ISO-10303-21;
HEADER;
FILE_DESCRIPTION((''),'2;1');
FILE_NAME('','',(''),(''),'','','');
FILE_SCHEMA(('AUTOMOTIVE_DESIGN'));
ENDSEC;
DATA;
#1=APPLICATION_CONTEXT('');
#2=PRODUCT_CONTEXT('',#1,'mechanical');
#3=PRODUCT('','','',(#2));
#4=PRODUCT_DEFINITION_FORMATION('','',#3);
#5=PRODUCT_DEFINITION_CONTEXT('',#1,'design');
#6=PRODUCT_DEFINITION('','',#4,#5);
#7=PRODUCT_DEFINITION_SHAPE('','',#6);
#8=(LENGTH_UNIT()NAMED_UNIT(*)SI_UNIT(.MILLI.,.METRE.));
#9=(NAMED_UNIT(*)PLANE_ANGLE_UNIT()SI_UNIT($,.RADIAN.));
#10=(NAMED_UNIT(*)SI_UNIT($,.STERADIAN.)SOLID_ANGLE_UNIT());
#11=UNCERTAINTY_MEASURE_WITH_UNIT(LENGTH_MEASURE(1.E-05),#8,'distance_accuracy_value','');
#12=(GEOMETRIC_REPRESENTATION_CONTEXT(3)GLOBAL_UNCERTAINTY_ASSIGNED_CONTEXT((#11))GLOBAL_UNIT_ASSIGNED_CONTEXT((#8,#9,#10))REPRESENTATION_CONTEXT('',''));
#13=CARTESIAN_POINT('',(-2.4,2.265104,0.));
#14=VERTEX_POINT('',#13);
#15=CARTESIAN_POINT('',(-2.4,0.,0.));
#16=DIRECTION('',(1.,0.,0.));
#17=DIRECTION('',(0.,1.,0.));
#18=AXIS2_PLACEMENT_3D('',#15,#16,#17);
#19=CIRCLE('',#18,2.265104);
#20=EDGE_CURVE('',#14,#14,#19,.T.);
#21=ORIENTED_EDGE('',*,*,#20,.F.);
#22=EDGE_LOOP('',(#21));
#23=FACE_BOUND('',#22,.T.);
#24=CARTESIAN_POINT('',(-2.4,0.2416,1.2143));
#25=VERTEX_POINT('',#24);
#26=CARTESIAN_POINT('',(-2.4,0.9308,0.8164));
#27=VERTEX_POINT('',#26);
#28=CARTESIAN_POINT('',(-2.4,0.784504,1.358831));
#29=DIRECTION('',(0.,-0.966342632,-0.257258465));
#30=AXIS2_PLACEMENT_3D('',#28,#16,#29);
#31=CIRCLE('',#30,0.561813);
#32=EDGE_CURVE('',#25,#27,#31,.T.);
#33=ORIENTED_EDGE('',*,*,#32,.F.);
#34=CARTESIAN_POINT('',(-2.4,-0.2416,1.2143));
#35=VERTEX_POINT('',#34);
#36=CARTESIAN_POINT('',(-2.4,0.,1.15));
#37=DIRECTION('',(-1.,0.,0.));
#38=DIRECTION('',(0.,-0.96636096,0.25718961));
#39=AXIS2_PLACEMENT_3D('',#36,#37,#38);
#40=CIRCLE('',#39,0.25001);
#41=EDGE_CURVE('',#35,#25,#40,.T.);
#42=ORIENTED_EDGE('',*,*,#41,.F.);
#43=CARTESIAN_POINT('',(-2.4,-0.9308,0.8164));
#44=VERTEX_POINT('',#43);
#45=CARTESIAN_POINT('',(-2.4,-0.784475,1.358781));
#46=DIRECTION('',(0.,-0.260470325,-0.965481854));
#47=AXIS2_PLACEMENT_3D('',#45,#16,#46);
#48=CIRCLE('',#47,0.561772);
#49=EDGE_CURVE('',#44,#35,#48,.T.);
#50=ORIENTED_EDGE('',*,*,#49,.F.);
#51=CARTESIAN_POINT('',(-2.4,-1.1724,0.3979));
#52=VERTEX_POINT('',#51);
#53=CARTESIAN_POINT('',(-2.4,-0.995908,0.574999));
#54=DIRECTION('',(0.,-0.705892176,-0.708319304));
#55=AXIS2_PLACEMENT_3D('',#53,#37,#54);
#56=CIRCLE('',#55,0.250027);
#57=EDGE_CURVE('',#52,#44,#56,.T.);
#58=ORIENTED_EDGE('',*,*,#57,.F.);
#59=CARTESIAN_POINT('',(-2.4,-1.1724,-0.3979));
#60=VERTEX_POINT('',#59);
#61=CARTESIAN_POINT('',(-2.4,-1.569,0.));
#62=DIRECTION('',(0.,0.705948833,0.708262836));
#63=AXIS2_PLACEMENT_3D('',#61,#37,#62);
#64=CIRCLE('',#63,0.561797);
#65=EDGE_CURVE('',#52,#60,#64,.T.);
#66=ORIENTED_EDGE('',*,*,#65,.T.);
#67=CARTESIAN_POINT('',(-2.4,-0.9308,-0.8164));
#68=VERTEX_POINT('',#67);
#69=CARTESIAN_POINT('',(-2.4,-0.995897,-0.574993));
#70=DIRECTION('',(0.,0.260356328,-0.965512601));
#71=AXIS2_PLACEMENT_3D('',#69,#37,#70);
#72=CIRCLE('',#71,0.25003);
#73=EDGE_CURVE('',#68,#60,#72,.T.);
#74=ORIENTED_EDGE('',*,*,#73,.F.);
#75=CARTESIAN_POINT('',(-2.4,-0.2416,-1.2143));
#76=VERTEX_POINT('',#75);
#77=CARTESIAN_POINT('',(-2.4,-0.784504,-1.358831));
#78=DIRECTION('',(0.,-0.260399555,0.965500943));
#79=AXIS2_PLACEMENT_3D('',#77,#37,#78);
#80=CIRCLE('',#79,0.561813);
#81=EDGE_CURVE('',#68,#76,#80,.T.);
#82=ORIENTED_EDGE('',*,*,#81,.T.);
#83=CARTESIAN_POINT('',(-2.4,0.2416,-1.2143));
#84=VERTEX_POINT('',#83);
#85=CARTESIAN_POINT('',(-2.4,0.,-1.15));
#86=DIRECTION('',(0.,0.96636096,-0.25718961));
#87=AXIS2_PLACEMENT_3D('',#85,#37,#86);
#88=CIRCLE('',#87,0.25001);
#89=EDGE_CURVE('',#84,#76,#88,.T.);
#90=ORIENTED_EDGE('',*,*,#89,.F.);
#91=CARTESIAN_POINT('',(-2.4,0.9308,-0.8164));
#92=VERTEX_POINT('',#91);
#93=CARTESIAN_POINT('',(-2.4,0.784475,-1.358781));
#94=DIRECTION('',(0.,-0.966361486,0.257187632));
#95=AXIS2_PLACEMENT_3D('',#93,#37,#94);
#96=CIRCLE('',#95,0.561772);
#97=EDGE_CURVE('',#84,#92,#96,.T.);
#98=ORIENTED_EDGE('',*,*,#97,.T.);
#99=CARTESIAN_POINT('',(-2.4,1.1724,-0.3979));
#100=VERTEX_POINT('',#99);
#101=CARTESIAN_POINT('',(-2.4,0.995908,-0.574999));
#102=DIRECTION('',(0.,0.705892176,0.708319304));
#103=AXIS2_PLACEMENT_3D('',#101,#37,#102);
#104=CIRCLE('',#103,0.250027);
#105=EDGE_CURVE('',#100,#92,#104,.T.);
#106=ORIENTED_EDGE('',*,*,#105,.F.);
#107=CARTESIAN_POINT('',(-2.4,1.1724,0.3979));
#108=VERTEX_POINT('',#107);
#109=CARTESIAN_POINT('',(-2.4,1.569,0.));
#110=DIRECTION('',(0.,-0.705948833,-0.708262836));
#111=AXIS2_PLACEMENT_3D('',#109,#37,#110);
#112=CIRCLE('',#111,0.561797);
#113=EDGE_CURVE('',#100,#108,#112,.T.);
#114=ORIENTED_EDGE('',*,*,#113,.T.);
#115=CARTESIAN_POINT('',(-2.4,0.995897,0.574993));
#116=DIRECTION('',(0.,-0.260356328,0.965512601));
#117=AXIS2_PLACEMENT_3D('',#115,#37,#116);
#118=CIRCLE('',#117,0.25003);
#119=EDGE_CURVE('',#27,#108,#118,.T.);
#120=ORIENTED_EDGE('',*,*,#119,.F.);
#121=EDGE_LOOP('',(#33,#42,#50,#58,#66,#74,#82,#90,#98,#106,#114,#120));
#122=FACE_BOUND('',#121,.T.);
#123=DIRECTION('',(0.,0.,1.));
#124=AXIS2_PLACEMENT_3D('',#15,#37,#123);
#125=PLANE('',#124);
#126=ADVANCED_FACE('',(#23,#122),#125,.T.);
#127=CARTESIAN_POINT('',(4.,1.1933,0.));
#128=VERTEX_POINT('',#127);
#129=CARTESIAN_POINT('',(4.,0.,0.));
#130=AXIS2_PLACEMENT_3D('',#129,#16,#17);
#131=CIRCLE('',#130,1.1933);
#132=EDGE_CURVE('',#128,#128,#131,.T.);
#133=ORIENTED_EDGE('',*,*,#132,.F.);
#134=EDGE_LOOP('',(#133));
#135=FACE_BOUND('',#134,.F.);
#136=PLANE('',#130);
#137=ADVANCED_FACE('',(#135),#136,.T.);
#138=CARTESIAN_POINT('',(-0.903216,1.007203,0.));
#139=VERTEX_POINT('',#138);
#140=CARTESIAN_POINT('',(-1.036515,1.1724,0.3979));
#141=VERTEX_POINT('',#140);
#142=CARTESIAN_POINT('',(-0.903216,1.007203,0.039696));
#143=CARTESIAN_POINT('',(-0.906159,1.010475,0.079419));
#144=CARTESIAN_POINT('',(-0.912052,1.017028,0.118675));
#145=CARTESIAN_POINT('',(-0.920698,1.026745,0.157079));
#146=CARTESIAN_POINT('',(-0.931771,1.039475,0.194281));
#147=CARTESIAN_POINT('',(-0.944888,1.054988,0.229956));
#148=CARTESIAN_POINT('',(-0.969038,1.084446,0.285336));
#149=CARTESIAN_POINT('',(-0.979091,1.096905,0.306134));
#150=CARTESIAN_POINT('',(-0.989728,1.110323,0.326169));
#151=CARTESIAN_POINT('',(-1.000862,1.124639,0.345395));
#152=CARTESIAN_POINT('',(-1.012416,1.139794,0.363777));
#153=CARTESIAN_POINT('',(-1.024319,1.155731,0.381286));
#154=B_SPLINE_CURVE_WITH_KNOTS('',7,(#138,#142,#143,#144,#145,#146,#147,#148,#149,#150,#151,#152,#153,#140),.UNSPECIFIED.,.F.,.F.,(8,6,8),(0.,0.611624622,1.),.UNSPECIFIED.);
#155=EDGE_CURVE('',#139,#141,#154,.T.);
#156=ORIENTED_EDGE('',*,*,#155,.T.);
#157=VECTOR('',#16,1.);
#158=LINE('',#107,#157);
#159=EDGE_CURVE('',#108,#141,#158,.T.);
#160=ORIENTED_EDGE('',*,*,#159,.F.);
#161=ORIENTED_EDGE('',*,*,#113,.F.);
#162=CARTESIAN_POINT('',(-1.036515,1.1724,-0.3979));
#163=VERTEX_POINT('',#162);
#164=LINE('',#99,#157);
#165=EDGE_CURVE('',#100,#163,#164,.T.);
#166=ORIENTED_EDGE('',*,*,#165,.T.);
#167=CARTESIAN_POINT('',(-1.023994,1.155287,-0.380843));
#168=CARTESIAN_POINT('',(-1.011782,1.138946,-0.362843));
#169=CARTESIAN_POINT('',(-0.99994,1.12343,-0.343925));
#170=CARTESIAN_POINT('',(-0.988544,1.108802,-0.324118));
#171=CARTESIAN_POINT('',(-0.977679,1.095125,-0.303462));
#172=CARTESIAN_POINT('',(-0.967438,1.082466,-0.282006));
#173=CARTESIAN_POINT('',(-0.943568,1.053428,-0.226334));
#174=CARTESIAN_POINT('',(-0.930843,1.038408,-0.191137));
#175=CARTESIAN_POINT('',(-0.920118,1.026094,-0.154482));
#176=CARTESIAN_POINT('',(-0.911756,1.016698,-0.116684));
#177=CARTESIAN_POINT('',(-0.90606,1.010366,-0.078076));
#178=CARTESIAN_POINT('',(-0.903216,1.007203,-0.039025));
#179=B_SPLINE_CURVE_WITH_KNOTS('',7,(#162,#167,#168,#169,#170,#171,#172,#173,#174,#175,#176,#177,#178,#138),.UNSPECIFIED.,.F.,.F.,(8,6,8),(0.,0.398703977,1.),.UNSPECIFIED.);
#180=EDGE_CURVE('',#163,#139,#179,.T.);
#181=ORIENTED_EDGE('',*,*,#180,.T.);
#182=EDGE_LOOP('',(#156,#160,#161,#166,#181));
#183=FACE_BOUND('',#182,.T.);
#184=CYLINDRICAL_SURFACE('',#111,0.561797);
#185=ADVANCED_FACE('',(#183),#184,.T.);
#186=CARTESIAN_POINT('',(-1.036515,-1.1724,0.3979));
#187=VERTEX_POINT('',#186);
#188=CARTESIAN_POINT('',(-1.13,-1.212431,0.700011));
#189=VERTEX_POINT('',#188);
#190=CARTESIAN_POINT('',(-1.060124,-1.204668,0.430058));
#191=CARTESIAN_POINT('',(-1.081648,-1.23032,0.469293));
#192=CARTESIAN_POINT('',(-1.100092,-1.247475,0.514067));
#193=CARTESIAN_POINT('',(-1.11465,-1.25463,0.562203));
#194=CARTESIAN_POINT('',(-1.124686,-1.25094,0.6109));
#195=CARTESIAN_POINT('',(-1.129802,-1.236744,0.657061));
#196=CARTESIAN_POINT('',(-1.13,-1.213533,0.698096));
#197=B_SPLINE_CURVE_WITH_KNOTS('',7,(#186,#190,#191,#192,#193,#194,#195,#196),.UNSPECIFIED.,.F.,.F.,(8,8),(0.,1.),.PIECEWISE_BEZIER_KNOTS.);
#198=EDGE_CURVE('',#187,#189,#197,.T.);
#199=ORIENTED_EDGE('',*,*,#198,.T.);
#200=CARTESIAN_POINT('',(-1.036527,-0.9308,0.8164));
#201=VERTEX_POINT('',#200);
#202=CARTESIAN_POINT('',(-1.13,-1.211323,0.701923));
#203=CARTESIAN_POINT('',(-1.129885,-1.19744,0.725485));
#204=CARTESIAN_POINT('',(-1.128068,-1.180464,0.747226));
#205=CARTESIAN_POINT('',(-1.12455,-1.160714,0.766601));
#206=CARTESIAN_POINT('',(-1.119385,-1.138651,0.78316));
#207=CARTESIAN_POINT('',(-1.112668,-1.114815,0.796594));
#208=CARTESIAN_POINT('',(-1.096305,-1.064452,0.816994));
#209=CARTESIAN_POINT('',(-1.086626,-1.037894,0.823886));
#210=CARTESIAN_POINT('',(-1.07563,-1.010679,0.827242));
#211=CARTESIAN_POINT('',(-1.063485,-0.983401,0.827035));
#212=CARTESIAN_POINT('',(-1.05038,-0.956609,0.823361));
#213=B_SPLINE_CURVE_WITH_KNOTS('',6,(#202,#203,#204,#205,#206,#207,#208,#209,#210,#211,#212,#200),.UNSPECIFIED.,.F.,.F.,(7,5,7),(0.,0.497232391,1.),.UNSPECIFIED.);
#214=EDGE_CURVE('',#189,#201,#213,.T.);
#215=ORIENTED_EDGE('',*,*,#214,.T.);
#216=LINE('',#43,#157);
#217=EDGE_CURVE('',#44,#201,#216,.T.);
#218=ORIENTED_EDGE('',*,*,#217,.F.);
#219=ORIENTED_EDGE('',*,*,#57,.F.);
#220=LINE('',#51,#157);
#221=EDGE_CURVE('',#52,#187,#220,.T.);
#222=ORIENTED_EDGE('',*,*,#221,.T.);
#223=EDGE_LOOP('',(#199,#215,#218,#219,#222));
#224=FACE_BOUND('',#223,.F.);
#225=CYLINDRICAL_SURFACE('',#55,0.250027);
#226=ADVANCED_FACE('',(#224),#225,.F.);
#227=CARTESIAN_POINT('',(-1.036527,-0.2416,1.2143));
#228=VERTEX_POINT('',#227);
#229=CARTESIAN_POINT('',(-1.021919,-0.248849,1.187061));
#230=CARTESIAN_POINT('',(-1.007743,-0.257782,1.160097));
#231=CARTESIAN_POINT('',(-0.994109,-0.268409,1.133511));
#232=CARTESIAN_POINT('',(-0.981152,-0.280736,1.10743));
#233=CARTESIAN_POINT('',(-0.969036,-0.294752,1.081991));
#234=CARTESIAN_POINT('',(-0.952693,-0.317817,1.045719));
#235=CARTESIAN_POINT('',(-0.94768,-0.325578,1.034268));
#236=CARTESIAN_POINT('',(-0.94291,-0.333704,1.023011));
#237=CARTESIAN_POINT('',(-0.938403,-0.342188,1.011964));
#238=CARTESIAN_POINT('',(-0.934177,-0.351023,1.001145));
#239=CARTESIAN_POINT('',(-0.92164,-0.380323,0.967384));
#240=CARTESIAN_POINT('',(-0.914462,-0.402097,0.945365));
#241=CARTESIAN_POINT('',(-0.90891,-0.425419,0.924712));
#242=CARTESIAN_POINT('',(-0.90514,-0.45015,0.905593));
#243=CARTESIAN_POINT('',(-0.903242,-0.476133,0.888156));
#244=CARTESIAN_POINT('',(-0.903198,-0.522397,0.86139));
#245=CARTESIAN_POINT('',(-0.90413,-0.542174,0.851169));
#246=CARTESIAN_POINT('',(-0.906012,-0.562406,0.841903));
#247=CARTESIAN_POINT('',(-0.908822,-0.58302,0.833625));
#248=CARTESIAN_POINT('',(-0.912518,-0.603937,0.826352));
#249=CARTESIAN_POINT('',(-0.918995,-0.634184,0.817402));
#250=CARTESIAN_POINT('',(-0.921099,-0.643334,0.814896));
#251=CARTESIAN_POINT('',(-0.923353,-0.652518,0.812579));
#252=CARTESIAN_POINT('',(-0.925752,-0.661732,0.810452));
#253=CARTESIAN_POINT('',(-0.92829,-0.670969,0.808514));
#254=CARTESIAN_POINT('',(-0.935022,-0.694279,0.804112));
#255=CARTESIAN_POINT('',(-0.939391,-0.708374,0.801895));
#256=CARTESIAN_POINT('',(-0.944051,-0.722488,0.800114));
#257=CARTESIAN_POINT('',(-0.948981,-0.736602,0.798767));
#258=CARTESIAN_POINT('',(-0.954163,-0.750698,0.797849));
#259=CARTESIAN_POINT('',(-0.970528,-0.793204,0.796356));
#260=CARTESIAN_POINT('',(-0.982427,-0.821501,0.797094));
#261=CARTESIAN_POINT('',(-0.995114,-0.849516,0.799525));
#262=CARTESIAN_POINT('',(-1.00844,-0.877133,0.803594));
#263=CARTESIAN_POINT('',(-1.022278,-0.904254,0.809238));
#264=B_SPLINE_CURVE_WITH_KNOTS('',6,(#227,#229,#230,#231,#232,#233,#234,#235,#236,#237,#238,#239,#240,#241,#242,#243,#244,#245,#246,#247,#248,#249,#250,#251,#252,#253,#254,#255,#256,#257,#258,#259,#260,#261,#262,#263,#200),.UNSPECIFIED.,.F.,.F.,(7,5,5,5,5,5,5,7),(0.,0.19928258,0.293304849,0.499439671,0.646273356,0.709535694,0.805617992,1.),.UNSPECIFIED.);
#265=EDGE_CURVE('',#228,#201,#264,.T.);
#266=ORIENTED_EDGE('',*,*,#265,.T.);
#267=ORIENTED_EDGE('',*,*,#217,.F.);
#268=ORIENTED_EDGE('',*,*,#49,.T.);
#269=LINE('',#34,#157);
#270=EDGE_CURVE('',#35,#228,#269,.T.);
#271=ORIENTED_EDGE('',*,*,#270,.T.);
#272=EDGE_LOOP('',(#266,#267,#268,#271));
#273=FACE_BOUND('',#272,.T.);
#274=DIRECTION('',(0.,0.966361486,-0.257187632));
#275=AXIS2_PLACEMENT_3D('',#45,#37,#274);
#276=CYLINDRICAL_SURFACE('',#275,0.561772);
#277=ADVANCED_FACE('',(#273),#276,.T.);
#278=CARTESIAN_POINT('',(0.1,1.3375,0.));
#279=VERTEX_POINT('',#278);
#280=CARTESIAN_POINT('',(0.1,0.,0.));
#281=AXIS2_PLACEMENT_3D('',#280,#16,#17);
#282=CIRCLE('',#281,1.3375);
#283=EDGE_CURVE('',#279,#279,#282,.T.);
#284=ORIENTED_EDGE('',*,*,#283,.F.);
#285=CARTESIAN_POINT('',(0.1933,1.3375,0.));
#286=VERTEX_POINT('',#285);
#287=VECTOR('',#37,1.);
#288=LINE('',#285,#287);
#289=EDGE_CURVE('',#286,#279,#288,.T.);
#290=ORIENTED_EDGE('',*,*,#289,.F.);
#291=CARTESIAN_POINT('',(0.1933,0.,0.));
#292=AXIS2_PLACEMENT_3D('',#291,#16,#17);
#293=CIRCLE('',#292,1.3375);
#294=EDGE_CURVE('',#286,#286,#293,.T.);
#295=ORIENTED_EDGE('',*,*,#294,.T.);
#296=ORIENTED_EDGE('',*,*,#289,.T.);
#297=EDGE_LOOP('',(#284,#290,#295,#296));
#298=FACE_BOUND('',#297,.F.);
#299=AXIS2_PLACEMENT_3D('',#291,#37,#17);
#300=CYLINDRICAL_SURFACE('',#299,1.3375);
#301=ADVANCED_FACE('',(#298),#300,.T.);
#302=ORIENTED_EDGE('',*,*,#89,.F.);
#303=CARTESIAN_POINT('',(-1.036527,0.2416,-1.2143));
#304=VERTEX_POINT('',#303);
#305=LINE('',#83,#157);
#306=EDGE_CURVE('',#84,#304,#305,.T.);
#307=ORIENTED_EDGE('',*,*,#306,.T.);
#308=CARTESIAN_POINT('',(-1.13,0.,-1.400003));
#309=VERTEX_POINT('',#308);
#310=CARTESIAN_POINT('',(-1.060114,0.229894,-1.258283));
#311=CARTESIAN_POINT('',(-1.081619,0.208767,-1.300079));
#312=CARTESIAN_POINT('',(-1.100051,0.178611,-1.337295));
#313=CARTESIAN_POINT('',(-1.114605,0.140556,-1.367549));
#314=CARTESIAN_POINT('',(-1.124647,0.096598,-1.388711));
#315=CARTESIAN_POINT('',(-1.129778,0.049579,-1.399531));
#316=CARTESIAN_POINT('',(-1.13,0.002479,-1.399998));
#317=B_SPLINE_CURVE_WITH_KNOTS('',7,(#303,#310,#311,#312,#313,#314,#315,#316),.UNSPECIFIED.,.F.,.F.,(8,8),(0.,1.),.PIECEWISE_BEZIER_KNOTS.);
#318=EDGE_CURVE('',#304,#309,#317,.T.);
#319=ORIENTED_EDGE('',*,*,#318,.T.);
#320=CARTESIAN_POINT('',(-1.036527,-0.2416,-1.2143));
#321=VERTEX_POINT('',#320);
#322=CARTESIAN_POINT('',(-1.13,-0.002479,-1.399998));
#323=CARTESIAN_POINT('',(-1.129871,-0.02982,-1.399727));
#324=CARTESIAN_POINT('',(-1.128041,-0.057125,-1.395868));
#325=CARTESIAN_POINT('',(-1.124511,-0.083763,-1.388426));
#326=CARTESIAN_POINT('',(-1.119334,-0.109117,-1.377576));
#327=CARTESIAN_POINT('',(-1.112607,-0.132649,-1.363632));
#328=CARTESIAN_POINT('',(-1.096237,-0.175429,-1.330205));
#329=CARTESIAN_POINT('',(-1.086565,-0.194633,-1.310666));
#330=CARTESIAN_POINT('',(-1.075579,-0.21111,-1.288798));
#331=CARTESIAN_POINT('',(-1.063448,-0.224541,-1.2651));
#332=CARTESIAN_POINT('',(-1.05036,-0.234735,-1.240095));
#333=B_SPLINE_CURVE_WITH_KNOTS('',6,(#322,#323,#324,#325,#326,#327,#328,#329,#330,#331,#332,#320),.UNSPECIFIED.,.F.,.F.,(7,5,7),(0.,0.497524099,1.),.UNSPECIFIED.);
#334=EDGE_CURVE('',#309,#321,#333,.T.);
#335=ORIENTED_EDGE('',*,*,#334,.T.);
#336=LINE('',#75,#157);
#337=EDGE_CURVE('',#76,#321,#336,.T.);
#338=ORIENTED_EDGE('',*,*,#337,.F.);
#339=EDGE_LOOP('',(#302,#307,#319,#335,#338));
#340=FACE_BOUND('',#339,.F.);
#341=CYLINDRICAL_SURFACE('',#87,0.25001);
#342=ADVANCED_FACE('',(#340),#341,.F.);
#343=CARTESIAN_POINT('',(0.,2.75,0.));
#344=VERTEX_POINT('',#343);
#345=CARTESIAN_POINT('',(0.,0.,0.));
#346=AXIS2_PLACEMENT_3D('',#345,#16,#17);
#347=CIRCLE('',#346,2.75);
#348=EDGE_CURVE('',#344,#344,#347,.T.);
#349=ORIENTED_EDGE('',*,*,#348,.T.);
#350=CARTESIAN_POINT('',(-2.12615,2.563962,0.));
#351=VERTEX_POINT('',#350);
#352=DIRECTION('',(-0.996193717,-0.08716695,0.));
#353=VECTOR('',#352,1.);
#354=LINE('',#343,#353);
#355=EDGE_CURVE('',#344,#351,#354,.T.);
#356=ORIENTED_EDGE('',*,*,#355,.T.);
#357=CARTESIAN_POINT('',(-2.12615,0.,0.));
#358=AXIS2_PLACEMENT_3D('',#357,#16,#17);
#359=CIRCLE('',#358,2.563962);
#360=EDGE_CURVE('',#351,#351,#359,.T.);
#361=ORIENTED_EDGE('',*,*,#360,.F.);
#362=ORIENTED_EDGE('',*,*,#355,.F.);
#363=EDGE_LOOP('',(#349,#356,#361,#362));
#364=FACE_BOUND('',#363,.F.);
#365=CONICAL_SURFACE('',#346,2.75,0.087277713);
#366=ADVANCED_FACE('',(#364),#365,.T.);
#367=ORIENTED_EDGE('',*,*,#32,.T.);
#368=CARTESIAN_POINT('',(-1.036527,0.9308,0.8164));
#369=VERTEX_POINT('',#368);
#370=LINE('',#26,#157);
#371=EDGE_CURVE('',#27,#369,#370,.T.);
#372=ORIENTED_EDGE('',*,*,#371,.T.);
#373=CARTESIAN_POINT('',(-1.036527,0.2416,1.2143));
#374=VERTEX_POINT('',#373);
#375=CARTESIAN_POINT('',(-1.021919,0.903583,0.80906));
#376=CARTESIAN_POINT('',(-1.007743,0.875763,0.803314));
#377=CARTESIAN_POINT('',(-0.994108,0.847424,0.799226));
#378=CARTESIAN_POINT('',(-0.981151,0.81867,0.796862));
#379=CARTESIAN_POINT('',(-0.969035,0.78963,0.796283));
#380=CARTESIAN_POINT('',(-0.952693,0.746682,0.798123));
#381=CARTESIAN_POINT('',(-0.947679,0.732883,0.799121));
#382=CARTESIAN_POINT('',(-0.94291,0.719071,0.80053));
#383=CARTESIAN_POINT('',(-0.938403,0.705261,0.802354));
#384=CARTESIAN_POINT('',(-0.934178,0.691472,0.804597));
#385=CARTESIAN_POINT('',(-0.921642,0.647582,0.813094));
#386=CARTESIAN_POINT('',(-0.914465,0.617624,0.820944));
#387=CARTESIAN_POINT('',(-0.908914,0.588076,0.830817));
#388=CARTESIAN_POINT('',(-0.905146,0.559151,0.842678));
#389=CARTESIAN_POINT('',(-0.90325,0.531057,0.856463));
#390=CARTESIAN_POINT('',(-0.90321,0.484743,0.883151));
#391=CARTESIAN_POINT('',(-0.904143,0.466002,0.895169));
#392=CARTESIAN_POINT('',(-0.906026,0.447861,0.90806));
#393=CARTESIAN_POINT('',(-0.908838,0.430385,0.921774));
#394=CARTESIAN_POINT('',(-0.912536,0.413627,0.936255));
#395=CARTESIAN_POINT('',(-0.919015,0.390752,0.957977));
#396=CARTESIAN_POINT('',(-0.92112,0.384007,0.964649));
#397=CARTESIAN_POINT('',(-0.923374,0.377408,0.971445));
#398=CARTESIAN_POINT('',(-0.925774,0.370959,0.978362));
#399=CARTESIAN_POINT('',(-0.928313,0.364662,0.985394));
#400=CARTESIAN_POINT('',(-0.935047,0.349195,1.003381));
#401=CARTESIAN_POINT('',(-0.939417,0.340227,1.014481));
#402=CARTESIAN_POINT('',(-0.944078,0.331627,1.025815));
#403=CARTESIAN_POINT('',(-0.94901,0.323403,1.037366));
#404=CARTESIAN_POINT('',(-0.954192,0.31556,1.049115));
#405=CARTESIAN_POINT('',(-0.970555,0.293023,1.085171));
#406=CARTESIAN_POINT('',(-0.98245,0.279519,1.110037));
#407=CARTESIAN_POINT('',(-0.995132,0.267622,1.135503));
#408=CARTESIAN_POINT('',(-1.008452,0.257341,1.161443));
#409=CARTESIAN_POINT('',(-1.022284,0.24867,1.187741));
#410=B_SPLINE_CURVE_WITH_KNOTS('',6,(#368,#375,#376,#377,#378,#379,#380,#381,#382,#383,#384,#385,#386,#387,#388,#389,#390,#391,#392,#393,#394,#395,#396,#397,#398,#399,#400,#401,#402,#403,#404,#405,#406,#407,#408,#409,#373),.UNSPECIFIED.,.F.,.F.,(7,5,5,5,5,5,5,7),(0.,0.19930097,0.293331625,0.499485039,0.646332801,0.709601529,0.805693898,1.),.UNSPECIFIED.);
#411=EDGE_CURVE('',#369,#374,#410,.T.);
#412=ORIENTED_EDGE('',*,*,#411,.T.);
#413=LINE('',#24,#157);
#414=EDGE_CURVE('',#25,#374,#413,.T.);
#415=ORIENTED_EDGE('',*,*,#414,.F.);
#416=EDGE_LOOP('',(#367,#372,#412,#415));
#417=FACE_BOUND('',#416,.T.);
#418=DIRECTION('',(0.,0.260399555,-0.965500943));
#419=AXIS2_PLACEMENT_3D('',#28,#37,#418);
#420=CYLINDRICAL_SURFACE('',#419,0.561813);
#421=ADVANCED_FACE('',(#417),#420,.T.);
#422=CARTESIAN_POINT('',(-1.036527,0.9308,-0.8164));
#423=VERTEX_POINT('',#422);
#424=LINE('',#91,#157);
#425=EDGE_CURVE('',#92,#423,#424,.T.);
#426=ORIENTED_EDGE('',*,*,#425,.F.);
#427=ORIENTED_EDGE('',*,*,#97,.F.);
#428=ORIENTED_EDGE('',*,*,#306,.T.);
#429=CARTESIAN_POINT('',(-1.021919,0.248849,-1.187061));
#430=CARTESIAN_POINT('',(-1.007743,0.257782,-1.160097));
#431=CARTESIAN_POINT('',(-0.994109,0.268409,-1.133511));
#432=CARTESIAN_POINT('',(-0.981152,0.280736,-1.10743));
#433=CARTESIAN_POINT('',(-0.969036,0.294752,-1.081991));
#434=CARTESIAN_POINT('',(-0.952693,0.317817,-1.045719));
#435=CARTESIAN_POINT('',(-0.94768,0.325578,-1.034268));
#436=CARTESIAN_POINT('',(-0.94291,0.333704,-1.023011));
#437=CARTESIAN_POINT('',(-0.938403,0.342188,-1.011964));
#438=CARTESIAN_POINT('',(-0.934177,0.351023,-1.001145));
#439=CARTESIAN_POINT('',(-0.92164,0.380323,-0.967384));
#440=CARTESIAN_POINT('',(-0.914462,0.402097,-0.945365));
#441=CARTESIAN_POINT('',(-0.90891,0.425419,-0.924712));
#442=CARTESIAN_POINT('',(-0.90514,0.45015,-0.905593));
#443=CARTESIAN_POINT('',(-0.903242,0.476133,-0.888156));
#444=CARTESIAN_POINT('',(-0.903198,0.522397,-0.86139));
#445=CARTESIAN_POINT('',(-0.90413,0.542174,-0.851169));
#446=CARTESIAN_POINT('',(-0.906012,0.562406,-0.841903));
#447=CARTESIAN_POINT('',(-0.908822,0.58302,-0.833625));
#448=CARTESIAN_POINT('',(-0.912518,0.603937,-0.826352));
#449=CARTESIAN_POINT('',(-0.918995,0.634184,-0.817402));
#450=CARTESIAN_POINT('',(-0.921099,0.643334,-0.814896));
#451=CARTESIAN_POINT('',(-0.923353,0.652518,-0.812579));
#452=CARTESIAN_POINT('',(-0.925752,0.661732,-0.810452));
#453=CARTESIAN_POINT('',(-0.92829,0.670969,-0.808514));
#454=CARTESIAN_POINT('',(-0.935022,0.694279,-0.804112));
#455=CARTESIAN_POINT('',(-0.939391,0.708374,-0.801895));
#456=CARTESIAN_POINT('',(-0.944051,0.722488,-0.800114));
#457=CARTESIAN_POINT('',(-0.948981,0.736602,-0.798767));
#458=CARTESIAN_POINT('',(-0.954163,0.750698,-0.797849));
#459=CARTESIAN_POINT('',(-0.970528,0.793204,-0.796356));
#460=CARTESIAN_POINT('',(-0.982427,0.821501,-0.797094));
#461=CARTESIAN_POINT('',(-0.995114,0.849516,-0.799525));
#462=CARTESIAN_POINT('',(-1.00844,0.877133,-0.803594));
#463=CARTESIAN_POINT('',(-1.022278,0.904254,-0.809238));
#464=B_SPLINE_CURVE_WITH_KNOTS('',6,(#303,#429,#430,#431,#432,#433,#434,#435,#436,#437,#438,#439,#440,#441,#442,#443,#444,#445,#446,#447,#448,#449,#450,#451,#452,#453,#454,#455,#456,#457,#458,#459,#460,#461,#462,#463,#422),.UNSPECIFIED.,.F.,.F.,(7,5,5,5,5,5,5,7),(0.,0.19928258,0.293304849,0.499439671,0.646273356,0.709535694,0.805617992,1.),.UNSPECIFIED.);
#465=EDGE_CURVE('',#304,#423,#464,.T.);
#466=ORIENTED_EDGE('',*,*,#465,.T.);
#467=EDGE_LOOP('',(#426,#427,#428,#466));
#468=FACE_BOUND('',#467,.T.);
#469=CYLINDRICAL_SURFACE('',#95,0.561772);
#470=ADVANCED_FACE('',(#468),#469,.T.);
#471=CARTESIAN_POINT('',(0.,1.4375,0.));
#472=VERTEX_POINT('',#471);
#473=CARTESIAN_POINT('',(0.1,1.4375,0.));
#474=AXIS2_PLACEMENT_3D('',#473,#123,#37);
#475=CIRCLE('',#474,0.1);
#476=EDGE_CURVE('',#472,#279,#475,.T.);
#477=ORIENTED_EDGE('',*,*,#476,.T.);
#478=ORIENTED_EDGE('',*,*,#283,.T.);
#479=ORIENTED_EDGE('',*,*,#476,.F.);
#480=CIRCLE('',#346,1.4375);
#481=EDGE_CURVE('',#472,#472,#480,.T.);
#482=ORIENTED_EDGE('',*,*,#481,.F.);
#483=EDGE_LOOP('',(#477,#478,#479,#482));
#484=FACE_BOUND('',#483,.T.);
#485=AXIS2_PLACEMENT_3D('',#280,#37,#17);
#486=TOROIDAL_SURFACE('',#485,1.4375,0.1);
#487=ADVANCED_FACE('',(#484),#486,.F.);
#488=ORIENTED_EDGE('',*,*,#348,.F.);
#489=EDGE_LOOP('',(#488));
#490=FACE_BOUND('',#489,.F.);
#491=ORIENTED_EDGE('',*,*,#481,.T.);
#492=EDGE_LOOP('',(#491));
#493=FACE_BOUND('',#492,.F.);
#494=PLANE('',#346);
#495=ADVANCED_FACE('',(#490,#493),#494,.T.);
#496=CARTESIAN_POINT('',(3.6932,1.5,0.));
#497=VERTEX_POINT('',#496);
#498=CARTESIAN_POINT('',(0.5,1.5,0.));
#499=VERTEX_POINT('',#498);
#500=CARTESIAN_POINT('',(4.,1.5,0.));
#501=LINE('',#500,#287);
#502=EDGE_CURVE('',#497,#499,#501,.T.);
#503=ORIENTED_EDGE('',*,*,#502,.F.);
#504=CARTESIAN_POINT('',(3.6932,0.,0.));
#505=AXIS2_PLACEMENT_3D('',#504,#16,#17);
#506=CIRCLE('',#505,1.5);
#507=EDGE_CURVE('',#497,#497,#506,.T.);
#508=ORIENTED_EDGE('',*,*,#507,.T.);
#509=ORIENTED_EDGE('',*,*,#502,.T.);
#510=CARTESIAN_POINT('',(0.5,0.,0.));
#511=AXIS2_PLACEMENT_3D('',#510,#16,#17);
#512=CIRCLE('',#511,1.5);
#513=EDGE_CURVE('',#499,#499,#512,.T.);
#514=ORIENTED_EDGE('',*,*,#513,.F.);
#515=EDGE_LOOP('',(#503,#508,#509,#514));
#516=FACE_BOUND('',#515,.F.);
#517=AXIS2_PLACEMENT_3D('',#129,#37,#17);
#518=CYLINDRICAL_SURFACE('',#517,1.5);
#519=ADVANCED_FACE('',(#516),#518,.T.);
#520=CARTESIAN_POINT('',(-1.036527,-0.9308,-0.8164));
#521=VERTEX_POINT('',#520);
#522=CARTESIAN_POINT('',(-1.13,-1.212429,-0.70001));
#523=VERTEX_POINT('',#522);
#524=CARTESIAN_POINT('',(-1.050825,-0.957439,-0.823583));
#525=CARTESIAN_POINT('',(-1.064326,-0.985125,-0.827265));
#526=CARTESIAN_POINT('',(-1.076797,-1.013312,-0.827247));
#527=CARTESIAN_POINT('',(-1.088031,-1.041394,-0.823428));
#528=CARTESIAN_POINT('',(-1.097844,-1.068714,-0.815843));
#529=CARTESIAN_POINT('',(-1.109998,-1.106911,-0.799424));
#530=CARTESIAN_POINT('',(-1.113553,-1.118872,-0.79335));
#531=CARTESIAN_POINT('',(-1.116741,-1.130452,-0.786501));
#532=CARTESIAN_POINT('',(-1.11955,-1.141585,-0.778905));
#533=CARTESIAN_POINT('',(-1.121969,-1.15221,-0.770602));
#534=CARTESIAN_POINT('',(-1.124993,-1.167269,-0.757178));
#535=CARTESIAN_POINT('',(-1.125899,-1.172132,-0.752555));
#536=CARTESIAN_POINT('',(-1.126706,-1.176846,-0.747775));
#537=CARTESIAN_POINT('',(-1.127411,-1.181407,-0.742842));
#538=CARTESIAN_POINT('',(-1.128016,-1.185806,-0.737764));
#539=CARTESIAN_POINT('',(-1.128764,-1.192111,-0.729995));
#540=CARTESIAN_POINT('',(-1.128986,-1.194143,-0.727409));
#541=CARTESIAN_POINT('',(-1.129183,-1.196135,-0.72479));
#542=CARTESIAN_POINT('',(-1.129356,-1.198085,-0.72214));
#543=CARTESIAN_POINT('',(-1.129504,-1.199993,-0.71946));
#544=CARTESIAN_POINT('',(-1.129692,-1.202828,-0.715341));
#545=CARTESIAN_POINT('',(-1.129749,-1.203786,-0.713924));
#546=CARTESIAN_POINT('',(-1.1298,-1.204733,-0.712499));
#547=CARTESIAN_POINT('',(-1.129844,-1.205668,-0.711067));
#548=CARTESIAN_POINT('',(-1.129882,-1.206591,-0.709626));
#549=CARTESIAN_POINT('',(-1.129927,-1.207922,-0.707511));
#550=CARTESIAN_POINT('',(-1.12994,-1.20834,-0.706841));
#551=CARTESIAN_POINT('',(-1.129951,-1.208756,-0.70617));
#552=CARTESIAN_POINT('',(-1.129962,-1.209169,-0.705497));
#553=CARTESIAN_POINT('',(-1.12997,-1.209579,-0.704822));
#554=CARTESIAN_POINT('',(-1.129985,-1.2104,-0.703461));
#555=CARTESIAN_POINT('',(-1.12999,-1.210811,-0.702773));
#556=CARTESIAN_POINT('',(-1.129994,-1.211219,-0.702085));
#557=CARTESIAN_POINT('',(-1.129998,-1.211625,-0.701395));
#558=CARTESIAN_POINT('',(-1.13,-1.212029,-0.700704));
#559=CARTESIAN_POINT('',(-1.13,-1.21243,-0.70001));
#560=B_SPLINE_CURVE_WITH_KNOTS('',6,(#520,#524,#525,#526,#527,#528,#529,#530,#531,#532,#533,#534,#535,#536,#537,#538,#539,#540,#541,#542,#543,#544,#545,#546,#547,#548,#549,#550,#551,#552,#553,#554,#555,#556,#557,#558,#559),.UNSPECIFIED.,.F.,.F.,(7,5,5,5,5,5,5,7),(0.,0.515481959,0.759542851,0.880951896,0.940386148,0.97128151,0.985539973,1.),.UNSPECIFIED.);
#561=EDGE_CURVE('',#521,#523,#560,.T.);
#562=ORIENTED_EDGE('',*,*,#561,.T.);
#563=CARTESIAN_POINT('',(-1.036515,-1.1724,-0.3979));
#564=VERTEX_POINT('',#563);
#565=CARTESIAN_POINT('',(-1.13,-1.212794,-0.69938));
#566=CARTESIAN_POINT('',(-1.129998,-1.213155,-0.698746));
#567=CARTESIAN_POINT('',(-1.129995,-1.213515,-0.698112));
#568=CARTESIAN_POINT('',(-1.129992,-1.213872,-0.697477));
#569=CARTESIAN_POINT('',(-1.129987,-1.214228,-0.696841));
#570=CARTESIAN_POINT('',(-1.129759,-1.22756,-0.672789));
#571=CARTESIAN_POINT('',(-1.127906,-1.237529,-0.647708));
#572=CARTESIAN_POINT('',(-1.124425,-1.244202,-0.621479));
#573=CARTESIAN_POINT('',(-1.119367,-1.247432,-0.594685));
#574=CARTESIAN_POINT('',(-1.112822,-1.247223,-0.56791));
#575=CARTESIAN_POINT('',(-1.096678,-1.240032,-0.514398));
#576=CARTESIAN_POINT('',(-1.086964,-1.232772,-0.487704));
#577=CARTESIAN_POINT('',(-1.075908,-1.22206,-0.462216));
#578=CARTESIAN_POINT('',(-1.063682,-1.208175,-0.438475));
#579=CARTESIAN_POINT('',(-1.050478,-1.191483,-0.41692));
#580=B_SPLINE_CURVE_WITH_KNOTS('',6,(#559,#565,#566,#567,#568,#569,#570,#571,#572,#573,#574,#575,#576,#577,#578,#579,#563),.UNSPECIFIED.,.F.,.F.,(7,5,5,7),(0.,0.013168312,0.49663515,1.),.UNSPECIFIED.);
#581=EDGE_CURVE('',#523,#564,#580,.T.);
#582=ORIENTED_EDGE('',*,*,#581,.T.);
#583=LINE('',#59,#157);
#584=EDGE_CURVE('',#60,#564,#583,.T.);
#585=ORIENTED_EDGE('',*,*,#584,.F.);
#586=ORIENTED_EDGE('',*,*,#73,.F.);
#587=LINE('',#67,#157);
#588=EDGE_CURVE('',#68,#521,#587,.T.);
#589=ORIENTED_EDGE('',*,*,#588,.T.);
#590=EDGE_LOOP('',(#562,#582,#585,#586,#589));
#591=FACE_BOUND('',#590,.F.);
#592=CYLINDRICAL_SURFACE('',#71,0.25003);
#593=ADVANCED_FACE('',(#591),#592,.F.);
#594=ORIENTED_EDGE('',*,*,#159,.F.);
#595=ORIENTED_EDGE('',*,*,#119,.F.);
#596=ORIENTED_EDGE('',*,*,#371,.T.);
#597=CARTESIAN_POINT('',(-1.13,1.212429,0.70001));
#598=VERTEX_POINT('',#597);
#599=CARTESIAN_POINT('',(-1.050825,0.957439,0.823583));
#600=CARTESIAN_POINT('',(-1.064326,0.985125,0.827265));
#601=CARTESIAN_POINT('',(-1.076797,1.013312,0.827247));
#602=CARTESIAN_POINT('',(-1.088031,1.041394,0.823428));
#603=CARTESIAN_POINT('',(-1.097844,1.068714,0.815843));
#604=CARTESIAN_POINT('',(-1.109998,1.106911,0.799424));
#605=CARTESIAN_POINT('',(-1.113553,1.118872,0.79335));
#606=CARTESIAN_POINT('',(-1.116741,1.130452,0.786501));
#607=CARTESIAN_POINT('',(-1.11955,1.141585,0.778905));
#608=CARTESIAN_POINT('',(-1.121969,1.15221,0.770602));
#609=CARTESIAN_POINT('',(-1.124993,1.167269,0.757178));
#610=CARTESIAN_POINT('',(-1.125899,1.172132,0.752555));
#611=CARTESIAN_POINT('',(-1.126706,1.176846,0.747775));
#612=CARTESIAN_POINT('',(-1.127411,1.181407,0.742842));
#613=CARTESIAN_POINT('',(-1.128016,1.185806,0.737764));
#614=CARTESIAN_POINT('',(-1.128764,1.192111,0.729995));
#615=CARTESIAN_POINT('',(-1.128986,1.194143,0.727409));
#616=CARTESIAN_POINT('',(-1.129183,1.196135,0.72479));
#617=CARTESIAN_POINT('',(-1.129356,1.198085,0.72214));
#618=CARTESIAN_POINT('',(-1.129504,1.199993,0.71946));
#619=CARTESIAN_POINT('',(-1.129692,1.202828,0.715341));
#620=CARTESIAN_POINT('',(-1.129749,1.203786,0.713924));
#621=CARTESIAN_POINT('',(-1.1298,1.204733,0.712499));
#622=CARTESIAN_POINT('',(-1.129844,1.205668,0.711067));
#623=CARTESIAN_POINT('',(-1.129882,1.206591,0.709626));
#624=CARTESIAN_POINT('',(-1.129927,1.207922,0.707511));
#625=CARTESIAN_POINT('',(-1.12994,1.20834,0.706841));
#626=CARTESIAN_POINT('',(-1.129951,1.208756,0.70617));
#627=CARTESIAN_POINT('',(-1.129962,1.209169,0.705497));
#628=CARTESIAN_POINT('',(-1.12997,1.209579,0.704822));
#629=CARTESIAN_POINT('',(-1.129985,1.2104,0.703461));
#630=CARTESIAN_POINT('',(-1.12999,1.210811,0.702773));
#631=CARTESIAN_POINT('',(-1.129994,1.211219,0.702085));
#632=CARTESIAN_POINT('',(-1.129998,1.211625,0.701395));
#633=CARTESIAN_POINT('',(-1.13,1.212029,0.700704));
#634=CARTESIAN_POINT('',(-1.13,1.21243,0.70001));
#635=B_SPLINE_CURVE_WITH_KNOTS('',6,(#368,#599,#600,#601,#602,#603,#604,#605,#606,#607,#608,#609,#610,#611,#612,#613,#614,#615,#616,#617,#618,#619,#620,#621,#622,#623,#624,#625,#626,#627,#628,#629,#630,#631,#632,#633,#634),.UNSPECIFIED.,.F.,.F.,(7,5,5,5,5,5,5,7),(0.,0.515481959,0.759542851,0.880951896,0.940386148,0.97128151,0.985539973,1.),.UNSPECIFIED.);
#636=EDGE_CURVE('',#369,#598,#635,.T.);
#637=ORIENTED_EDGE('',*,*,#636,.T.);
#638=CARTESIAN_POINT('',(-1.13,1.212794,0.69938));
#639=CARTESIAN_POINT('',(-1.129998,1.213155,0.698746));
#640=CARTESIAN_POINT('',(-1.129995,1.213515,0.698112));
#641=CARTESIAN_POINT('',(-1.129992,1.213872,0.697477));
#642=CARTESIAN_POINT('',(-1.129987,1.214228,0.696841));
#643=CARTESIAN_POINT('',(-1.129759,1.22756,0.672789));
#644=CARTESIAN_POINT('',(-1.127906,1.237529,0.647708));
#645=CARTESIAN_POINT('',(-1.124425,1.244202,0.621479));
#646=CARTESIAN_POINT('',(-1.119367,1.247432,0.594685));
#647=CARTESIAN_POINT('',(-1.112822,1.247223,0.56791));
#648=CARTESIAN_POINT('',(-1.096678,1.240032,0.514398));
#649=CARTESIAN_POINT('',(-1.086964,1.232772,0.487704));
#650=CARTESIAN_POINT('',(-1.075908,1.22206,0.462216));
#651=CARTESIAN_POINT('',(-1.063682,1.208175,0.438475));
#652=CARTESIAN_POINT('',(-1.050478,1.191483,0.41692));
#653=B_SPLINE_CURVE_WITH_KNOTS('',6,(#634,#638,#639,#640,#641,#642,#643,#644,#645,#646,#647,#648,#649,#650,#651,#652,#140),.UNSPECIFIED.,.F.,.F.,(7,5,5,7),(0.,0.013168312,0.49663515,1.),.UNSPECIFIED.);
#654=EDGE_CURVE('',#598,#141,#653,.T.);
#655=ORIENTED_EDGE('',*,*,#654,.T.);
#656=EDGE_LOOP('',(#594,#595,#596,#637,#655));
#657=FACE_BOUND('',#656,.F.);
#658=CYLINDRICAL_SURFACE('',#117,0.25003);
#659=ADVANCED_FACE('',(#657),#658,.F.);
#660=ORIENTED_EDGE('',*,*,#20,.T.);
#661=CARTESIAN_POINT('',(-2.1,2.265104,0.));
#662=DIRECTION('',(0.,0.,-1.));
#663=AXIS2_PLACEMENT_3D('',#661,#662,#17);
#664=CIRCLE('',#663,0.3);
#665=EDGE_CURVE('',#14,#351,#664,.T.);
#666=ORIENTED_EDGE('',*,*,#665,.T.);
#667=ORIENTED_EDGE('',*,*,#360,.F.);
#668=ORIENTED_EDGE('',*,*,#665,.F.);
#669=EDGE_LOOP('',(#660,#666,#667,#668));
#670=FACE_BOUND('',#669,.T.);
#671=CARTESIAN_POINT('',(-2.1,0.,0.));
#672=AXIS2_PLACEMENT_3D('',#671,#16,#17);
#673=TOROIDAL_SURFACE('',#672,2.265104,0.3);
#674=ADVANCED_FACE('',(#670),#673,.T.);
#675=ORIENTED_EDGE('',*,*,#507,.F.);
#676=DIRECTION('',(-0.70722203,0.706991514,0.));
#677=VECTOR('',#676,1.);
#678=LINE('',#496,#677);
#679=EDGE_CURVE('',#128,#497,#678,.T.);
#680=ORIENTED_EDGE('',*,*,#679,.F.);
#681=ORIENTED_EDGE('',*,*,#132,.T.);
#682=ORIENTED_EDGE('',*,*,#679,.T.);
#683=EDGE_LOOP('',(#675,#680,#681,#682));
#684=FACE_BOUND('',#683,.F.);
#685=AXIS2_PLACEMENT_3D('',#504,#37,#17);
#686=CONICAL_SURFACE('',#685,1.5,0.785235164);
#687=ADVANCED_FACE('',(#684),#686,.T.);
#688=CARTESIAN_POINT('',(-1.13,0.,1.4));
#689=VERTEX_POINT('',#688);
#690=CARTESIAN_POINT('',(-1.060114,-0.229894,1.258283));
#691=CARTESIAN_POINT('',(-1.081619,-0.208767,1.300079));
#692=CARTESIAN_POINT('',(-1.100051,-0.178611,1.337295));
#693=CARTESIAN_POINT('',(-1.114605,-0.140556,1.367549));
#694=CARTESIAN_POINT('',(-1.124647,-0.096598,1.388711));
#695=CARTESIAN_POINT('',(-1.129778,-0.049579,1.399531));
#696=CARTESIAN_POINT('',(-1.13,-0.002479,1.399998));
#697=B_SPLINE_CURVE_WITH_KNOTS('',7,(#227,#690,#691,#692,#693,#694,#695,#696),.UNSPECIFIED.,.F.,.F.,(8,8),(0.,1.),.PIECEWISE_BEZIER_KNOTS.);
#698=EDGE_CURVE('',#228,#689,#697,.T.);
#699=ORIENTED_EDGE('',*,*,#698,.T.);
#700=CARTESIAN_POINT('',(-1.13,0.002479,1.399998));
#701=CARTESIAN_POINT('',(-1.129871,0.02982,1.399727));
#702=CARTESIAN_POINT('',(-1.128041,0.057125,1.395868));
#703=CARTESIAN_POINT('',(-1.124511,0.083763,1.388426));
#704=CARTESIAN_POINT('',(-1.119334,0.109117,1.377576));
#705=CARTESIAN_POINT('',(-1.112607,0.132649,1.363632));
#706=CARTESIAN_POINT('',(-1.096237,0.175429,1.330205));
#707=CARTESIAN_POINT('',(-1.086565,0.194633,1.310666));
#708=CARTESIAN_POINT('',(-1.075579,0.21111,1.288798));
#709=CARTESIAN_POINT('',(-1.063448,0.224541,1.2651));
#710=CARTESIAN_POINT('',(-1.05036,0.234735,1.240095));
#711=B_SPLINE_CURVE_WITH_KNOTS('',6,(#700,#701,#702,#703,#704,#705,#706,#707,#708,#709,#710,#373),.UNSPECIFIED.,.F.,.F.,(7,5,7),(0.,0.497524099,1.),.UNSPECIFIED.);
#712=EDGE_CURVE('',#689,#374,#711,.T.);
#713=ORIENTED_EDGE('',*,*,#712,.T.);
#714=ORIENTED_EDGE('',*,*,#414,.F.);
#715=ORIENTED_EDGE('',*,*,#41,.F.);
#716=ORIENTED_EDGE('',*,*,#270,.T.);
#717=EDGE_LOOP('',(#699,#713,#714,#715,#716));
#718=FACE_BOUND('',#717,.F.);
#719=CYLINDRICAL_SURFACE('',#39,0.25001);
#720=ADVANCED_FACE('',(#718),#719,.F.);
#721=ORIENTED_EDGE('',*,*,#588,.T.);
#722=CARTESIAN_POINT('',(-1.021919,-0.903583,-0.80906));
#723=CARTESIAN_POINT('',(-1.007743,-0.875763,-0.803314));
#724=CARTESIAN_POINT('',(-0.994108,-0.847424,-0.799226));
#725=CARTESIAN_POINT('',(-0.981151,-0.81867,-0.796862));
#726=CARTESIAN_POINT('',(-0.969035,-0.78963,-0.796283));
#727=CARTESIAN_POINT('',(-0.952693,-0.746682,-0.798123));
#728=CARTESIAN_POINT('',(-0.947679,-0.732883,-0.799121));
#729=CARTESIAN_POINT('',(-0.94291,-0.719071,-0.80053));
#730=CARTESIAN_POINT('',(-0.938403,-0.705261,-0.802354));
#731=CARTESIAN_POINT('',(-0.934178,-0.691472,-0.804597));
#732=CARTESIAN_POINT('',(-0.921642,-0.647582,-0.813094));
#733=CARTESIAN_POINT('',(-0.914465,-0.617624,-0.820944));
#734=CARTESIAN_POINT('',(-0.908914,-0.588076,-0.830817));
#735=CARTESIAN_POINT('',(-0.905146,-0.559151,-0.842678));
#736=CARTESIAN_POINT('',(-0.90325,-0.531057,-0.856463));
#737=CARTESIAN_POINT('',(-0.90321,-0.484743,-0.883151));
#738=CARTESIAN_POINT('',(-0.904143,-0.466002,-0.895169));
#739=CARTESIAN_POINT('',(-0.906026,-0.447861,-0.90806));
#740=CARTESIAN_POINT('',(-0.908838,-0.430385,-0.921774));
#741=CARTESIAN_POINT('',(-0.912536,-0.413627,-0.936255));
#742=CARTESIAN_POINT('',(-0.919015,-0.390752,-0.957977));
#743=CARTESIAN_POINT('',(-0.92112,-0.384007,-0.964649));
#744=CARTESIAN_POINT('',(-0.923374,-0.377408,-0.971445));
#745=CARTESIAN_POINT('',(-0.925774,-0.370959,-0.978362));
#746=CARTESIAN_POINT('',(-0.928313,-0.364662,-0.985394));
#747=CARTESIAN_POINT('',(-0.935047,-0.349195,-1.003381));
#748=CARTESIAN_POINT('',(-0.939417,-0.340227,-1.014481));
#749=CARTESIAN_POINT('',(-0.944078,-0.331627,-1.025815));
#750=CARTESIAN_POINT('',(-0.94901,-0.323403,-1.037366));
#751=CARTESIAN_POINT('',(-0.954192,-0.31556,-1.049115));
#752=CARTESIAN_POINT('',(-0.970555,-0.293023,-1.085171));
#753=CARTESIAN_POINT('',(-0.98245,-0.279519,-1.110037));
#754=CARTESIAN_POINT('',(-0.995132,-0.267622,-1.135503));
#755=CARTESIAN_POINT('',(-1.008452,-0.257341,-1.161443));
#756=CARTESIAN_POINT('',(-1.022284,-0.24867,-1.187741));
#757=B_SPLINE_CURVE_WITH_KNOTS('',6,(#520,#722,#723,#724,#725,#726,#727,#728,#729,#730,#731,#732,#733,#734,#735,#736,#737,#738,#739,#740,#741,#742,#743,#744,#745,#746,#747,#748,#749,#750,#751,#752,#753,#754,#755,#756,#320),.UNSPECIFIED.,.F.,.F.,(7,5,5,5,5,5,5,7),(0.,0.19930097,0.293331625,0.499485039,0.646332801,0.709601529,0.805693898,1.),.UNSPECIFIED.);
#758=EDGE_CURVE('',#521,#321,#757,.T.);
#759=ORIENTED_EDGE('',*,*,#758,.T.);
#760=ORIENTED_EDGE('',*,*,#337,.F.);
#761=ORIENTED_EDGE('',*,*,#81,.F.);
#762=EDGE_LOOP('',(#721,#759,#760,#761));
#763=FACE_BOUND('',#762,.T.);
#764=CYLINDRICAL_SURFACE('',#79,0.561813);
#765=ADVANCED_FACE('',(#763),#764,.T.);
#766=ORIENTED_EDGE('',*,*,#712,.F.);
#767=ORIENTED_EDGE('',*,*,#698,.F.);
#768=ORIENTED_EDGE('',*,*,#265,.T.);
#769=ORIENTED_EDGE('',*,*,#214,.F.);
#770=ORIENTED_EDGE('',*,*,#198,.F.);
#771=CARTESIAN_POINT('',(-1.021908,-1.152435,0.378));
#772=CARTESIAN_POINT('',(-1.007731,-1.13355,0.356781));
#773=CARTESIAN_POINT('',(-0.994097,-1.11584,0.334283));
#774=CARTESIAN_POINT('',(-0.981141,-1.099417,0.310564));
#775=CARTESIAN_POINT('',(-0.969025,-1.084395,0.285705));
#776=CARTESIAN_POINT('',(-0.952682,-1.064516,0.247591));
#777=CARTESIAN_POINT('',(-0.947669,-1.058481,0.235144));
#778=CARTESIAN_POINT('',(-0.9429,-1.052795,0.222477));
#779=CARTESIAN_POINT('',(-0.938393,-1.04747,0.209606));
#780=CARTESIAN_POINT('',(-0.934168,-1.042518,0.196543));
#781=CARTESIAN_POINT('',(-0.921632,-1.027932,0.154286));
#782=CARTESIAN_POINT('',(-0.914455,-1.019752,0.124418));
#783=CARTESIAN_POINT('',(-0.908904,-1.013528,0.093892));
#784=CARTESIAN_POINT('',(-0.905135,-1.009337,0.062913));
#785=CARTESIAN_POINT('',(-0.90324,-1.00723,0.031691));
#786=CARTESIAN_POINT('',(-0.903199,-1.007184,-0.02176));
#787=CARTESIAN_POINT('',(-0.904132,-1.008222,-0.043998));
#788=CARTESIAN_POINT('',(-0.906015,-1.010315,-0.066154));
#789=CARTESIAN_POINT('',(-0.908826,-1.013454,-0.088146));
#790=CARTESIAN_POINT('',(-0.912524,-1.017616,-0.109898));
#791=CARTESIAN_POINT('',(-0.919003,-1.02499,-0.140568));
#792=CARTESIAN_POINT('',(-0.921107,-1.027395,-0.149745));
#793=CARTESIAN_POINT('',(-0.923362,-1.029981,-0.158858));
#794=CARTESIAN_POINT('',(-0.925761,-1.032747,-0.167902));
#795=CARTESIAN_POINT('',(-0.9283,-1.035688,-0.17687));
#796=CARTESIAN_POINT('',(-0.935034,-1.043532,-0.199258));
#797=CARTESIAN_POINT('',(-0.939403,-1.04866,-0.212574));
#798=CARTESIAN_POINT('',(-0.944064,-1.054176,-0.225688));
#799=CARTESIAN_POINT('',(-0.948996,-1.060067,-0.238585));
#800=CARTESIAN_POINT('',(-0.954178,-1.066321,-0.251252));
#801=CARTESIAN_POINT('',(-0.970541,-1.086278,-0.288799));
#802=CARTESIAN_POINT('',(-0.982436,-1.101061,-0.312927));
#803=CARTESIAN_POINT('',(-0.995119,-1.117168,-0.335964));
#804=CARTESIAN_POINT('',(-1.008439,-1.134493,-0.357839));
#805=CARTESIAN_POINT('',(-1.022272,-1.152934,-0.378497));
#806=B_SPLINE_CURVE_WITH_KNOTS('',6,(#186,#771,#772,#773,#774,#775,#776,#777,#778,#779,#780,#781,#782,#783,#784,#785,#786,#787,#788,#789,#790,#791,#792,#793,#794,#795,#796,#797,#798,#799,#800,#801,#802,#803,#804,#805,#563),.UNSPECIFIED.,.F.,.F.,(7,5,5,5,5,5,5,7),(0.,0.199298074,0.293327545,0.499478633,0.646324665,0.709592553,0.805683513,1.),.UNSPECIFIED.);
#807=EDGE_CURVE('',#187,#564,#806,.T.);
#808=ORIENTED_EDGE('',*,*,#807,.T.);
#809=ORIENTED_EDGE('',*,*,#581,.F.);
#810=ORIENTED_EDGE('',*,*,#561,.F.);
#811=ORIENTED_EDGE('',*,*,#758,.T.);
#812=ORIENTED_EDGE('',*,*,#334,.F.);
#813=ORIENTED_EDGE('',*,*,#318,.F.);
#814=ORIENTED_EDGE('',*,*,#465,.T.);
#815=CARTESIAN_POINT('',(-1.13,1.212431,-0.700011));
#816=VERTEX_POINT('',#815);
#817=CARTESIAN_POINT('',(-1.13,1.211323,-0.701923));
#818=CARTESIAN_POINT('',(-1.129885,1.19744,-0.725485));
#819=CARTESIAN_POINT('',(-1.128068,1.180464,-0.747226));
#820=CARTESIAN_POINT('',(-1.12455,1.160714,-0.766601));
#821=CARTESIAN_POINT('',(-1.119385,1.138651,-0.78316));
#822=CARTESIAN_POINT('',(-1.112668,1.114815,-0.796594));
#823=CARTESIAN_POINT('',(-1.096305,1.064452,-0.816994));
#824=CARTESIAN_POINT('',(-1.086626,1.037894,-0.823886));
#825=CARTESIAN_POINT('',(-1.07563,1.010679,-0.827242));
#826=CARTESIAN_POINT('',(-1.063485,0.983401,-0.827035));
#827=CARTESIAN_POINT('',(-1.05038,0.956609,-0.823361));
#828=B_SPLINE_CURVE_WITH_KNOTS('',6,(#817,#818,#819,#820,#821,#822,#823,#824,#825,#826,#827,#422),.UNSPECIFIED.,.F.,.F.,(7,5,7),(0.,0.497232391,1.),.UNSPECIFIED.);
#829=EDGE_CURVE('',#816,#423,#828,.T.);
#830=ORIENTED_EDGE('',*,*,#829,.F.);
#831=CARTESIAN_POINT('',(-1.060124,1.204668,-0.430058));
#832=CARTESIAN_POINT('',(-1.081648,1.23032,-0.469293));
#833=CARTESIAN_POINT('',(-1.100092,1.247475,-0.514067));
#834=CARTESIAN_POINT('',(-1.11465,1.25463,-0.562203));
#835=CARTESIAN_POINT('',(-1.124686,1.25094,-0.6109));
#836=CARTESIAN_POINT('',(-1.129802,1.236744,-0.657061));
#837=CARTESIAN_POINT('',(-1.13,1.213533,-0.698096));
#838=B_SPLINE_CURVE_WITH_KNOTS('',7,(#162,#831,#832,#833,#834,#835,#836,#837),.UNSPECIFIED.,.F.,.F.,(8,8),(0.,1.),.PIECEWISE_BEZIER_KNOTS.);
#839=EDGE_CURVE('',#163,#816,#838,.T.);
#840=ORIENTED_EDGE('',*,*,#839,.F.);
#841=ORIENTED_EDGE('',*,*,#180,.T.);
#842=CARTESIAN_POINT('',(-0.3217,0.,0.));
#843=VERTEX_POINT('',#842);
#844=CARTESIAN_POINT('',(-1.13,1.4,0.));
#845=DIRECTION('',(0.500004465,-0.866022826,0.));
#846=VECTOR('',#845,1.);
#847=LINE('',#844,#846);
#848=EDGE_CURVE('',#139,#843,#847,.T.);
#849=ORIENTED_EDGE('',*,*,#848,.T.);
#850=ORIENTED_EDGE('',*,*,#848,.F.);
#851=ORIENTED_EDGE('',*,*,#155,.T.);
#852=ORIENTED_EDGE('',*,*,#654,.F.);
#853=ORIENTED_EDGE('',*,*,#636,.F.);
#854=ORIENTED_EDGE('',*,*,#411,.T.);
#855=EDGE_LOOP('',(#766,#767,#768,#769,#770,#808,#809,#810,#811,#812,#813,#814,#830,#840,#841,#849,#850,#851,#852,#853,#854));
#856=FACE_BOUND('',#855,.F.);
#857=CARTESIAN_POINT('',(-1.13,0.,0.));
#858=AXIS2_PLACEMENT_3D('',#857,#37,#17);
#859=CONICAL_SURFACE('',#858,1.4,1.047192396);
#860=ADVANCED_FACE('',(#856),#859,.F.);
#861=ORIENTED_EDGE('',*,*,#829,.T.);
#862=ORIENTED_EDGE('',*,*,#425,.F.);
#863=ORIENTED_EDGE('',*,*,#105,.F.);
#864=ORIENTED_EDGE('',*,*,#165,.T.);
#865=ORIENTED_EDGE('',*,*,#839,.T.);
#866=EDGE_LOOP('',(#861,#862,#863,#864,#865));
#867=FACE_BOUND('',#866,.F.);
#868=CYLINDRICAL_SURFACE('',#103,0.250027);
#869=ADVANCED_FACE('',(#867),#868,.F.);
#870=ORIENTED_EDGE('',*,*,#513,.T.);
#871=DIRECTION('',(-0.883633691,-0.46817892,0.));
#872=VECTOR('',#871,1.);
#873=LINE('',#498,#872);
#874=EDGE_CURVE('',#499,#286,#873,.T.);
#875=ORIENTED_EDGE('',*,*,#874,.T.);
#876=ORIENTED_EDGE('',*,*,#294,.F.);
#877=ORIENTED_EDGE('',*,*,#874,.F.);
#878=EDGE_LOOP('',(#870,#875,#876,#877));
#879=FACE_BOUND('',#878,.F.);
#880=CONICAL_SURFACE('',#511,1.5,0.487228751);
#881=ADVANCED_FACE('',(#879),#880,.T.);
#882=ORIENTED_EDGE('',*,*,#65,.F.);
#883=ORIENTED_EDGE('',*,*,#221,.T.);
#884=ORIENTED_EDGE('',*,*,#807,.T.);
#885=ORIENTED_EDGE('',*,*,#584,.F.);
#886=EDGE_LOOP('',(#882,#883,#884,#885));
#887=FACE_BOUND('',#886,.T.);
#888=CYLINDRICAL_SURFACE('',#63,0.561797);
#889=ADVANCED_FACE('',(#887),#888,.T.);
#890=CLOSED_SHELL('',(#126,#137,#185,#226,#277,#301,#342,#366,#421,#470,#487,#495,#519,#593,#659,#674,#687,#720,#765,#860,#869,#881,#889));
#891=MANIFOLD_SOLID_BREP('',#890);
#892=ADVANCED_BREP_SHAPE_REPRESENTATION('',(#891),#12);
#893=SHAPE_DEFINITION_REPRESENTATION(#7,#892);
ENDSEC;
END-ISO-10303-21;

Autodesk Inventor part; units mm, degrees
ref_plane "YZ Plane" through (0, 0, 0) normal (1, 0, 0) x (0, 1, 0)
ref_plane "XZ Plane" through (0, 0, 0) normal (0, 1, 0) x (-1, 0, 0)
sketch "Sketch1" plane through (0, 0, 0) normal (0, 0, 1) x (1, 0, 0)
  line L0 (-0.3217, 0) -> (4, 0)
  line L1 (4, 0) -> (4, 1.5)
  line L2 (4, 1.5) -> (0.5, 1.5)
  line L3 (0.5, 1.5) -> (0.1933, 1.3375)
  line L4 (0.1933, 1.3375) -> (0.1, 1.3375)
  line L5 (0, 1.4375) -> (0, 2.75)
  line L6 (0, 2.75) -> (-2.4, 2.75)
  line L7 (-2.4, 2.75) -> (-2.4, 1.4)
  line L8 (-2.4, 1.4) -> (-1.13, 1.4)
  line L9 (-1.13, 1.4) -> (-0.3217, 0)
  line L10 (-3.68, 0) -> (5.28, 0) projected
  line L11 (0, -0.55) -> (0, 3.3) projected
  line L12 (0.5, 1.5) -> (0, 1.5) construction
  arc A0 (0, 1.4375) -> (0.1, 1.3375) centre (0.1, 1.4375) ccw
  line L13 (0, 2.75) -> (-2.4, 2.54)
  point P0 (0, 1.3375)
  dimension "d1" = 3.5
  dimension "d2" = 0.3067
  dimension "d3" = 2.4
  dimension "d4" = 1.27
  dimension "d5" = 60
  dimension "d6" = 3
  dimension "d7" = 2.675
  dimension "d8" = 2.8
  dimension "d9" = 5.5
  dimension "d20" = 4
  dimension "d34" = 0.1
  dimension "d35" = 5
revolve "Body" add sketch "Sketch1" angle 360 about axis through (-0.3217, 0, 0) along (1, 0, 0)
sketch "Sketch2" plane through (-2.4, 0, 0) normal (-1, 0, 0) x (0, 0, 1)
  line L0 (0, -4.9779) -> (0, 10.6176) projected
  line L1 (-5.0424, 0) -> (11.0045, 0) projected
  circle A0 centre (0, 0) radius 2.75 projected
  circle A1 centre (0, 0) radius 1.0072
  line L2 (0, 0) -> (4.8438, 8.3897) construction
  line L3 (0, 0) -> (8.7121, 5.0299) construction
  circle A2 centre (0, 0) radius 1.4 projected
  arc A3 (0.8164, 0.9308) -> (0.3979, 1.1724) centre (0.575, 0.9959) ccw
  arc A4 (1.2143, -0.2416) -> (1.2143, 0.2416) centre (1.15, 0) ccw
  arc A5 (0.8164, 0.9308) -> (1.2143, 0.2416) centre (1.3588, 0.7845) ccw
  arc A6 (-0.3979, 1.1724) -> (-0.8164, 0.9308) centre (-0.575, 0.9959) ccw
  arc A7 (-1.2143, 0.2416) -> (-1.2143, -0.2416) centre (-1.15, 0) ccw
  arc A8 (-1.2143, 0.2416) -> (-0.8164, 0.9308) centre (-1.3588, 0.7845) ccw
  arc A9 (0.3979, -1.1724) -> (0.8164, -0.9308) centre (0.575, -0.9959) ccw
  arc A10 (1.2143, -0.2416) -> (1.2143, 0.2416) centre (1.15, 0) ccw
  arc A11 (1.2143, -0.2416) -> (0.8164, -0.9308) centre (1.3588, -0.7845) ccw
  arc A12 (-0.8164, -0.9308) -> (-0.3979, -1.1724) centre (-0.575, -0.9959) ccw
  arc A13 (-0.8164, -0.9308) -> (-1.2143, -0.2416) centre (-1.3588, -0.7845) ccw
  arc A14 (-1.2143, 0.2416) -> (-1.2143, -0.2416) centre (-1.15, 0) ccw
  arc A15 (-0.3979, 1.1724) -> (0.3979, 1.1724) centre (0, 1.569) ccw
  arc A16 (0.3979, -1.1724) -> (-0.3979, -1.1724) centre (0, -1.569) ccw
  dimension "d38" = 2.0144
  dimension "d39" = 30
  dimension "d40" = 60
  dimension "d42" = 0.25
extrude "Slot" add sketch "Sketch2" against normal up to next contours A2 A12 A16 L0 | L0 A16 A9 A2 | A2 A7 A13 A12 | A9 A11 A4 A2 | A2 A6 A8 A7 | A4 A5 A3 A2 | A2 L0 A15 A6 | A2 A3 A15 L0
revolve "Taper" cut sketch "Sketch1" angle 360 about axis through (0, 0, 0) along (1, 0, 0) contours L13 L7 L6
fillet "Fillet1" radius 0.3 1 edges at (-2.4, -2.54, 0)
thread "Thread" size "M3x0.5" designation "M3" class "6g" standard "GB Metric profile" length 3.5
chamfer "Chamfer1" distance 0.3067 distance2 0.3068 1 edges at (4, -1.5, 0) measured on face at (4, -0.2617, -0.7882)
ref_plane "Work Plane1" through (0, 0, 0) normal (0, 0.5, 0.866) x (1, 0, 0)
equation "\"d1\" = GEL"
equation "\"d2\" = GAL"
equation "\"d3\" = KOH"
equation "\"d4\" = INTI"
equation "\"d6\" = GD"
equation "\"d7\" = BDM"
equation "\"d8\" = E0"
equation "\"d9\" = KOD"
equation "\"d20\" = NLG"
equation "\"d34\" = R"
equation "\"d38\" = SW"
equation "\"d42\" = RRK"
equation "\"d17\" = RR"
equation "\"d13\" = GEL"
equation "\"d15\" = -0.5 * SPD + 0.5 * GD"
equation "\"GD\" = NND"
equation "\"NLG\" = 4"
equation "\"GEL\" = 3.5"
equation "\"KOD\" = 5.5"
equation "\"KOH\" = 2.4"
equation "\"INTI\" = 1.27"
equation "\"GAL\" = 0.61345 * PTC"
equation "\"GUL\" = 0.61345 * PTC"
equation "\"BDM\" = 2.675"
equation "\"SW\" = 2.0144"
equation "\"RR\" = 0.3"
equation "\"SPD\" = NND - 1.2269 * PTC"
equation "\"R\" = 0.1"
equation "\"E0\" = 2.8"
equation "\"RRK\" = 0.25"
equation "\"PHH\" = 0"
equation "\"GD1\" = THREADDIA - 1.2269 * PTC"
equation "\"THREADDIA\" = 3"
equation "\"FAWI\" = 90deg"
equation "\"ANG\" = 120deg"
equation "\"PTC\" = 0.5"
equation "\"NND\" = 3"
equation "\"TOA\" = 30deg"
equation "\"KEWI\" = 5deg"
properties part number "Screw GB/T 2171.1 M3 x 4" material "Steel, Mild"
